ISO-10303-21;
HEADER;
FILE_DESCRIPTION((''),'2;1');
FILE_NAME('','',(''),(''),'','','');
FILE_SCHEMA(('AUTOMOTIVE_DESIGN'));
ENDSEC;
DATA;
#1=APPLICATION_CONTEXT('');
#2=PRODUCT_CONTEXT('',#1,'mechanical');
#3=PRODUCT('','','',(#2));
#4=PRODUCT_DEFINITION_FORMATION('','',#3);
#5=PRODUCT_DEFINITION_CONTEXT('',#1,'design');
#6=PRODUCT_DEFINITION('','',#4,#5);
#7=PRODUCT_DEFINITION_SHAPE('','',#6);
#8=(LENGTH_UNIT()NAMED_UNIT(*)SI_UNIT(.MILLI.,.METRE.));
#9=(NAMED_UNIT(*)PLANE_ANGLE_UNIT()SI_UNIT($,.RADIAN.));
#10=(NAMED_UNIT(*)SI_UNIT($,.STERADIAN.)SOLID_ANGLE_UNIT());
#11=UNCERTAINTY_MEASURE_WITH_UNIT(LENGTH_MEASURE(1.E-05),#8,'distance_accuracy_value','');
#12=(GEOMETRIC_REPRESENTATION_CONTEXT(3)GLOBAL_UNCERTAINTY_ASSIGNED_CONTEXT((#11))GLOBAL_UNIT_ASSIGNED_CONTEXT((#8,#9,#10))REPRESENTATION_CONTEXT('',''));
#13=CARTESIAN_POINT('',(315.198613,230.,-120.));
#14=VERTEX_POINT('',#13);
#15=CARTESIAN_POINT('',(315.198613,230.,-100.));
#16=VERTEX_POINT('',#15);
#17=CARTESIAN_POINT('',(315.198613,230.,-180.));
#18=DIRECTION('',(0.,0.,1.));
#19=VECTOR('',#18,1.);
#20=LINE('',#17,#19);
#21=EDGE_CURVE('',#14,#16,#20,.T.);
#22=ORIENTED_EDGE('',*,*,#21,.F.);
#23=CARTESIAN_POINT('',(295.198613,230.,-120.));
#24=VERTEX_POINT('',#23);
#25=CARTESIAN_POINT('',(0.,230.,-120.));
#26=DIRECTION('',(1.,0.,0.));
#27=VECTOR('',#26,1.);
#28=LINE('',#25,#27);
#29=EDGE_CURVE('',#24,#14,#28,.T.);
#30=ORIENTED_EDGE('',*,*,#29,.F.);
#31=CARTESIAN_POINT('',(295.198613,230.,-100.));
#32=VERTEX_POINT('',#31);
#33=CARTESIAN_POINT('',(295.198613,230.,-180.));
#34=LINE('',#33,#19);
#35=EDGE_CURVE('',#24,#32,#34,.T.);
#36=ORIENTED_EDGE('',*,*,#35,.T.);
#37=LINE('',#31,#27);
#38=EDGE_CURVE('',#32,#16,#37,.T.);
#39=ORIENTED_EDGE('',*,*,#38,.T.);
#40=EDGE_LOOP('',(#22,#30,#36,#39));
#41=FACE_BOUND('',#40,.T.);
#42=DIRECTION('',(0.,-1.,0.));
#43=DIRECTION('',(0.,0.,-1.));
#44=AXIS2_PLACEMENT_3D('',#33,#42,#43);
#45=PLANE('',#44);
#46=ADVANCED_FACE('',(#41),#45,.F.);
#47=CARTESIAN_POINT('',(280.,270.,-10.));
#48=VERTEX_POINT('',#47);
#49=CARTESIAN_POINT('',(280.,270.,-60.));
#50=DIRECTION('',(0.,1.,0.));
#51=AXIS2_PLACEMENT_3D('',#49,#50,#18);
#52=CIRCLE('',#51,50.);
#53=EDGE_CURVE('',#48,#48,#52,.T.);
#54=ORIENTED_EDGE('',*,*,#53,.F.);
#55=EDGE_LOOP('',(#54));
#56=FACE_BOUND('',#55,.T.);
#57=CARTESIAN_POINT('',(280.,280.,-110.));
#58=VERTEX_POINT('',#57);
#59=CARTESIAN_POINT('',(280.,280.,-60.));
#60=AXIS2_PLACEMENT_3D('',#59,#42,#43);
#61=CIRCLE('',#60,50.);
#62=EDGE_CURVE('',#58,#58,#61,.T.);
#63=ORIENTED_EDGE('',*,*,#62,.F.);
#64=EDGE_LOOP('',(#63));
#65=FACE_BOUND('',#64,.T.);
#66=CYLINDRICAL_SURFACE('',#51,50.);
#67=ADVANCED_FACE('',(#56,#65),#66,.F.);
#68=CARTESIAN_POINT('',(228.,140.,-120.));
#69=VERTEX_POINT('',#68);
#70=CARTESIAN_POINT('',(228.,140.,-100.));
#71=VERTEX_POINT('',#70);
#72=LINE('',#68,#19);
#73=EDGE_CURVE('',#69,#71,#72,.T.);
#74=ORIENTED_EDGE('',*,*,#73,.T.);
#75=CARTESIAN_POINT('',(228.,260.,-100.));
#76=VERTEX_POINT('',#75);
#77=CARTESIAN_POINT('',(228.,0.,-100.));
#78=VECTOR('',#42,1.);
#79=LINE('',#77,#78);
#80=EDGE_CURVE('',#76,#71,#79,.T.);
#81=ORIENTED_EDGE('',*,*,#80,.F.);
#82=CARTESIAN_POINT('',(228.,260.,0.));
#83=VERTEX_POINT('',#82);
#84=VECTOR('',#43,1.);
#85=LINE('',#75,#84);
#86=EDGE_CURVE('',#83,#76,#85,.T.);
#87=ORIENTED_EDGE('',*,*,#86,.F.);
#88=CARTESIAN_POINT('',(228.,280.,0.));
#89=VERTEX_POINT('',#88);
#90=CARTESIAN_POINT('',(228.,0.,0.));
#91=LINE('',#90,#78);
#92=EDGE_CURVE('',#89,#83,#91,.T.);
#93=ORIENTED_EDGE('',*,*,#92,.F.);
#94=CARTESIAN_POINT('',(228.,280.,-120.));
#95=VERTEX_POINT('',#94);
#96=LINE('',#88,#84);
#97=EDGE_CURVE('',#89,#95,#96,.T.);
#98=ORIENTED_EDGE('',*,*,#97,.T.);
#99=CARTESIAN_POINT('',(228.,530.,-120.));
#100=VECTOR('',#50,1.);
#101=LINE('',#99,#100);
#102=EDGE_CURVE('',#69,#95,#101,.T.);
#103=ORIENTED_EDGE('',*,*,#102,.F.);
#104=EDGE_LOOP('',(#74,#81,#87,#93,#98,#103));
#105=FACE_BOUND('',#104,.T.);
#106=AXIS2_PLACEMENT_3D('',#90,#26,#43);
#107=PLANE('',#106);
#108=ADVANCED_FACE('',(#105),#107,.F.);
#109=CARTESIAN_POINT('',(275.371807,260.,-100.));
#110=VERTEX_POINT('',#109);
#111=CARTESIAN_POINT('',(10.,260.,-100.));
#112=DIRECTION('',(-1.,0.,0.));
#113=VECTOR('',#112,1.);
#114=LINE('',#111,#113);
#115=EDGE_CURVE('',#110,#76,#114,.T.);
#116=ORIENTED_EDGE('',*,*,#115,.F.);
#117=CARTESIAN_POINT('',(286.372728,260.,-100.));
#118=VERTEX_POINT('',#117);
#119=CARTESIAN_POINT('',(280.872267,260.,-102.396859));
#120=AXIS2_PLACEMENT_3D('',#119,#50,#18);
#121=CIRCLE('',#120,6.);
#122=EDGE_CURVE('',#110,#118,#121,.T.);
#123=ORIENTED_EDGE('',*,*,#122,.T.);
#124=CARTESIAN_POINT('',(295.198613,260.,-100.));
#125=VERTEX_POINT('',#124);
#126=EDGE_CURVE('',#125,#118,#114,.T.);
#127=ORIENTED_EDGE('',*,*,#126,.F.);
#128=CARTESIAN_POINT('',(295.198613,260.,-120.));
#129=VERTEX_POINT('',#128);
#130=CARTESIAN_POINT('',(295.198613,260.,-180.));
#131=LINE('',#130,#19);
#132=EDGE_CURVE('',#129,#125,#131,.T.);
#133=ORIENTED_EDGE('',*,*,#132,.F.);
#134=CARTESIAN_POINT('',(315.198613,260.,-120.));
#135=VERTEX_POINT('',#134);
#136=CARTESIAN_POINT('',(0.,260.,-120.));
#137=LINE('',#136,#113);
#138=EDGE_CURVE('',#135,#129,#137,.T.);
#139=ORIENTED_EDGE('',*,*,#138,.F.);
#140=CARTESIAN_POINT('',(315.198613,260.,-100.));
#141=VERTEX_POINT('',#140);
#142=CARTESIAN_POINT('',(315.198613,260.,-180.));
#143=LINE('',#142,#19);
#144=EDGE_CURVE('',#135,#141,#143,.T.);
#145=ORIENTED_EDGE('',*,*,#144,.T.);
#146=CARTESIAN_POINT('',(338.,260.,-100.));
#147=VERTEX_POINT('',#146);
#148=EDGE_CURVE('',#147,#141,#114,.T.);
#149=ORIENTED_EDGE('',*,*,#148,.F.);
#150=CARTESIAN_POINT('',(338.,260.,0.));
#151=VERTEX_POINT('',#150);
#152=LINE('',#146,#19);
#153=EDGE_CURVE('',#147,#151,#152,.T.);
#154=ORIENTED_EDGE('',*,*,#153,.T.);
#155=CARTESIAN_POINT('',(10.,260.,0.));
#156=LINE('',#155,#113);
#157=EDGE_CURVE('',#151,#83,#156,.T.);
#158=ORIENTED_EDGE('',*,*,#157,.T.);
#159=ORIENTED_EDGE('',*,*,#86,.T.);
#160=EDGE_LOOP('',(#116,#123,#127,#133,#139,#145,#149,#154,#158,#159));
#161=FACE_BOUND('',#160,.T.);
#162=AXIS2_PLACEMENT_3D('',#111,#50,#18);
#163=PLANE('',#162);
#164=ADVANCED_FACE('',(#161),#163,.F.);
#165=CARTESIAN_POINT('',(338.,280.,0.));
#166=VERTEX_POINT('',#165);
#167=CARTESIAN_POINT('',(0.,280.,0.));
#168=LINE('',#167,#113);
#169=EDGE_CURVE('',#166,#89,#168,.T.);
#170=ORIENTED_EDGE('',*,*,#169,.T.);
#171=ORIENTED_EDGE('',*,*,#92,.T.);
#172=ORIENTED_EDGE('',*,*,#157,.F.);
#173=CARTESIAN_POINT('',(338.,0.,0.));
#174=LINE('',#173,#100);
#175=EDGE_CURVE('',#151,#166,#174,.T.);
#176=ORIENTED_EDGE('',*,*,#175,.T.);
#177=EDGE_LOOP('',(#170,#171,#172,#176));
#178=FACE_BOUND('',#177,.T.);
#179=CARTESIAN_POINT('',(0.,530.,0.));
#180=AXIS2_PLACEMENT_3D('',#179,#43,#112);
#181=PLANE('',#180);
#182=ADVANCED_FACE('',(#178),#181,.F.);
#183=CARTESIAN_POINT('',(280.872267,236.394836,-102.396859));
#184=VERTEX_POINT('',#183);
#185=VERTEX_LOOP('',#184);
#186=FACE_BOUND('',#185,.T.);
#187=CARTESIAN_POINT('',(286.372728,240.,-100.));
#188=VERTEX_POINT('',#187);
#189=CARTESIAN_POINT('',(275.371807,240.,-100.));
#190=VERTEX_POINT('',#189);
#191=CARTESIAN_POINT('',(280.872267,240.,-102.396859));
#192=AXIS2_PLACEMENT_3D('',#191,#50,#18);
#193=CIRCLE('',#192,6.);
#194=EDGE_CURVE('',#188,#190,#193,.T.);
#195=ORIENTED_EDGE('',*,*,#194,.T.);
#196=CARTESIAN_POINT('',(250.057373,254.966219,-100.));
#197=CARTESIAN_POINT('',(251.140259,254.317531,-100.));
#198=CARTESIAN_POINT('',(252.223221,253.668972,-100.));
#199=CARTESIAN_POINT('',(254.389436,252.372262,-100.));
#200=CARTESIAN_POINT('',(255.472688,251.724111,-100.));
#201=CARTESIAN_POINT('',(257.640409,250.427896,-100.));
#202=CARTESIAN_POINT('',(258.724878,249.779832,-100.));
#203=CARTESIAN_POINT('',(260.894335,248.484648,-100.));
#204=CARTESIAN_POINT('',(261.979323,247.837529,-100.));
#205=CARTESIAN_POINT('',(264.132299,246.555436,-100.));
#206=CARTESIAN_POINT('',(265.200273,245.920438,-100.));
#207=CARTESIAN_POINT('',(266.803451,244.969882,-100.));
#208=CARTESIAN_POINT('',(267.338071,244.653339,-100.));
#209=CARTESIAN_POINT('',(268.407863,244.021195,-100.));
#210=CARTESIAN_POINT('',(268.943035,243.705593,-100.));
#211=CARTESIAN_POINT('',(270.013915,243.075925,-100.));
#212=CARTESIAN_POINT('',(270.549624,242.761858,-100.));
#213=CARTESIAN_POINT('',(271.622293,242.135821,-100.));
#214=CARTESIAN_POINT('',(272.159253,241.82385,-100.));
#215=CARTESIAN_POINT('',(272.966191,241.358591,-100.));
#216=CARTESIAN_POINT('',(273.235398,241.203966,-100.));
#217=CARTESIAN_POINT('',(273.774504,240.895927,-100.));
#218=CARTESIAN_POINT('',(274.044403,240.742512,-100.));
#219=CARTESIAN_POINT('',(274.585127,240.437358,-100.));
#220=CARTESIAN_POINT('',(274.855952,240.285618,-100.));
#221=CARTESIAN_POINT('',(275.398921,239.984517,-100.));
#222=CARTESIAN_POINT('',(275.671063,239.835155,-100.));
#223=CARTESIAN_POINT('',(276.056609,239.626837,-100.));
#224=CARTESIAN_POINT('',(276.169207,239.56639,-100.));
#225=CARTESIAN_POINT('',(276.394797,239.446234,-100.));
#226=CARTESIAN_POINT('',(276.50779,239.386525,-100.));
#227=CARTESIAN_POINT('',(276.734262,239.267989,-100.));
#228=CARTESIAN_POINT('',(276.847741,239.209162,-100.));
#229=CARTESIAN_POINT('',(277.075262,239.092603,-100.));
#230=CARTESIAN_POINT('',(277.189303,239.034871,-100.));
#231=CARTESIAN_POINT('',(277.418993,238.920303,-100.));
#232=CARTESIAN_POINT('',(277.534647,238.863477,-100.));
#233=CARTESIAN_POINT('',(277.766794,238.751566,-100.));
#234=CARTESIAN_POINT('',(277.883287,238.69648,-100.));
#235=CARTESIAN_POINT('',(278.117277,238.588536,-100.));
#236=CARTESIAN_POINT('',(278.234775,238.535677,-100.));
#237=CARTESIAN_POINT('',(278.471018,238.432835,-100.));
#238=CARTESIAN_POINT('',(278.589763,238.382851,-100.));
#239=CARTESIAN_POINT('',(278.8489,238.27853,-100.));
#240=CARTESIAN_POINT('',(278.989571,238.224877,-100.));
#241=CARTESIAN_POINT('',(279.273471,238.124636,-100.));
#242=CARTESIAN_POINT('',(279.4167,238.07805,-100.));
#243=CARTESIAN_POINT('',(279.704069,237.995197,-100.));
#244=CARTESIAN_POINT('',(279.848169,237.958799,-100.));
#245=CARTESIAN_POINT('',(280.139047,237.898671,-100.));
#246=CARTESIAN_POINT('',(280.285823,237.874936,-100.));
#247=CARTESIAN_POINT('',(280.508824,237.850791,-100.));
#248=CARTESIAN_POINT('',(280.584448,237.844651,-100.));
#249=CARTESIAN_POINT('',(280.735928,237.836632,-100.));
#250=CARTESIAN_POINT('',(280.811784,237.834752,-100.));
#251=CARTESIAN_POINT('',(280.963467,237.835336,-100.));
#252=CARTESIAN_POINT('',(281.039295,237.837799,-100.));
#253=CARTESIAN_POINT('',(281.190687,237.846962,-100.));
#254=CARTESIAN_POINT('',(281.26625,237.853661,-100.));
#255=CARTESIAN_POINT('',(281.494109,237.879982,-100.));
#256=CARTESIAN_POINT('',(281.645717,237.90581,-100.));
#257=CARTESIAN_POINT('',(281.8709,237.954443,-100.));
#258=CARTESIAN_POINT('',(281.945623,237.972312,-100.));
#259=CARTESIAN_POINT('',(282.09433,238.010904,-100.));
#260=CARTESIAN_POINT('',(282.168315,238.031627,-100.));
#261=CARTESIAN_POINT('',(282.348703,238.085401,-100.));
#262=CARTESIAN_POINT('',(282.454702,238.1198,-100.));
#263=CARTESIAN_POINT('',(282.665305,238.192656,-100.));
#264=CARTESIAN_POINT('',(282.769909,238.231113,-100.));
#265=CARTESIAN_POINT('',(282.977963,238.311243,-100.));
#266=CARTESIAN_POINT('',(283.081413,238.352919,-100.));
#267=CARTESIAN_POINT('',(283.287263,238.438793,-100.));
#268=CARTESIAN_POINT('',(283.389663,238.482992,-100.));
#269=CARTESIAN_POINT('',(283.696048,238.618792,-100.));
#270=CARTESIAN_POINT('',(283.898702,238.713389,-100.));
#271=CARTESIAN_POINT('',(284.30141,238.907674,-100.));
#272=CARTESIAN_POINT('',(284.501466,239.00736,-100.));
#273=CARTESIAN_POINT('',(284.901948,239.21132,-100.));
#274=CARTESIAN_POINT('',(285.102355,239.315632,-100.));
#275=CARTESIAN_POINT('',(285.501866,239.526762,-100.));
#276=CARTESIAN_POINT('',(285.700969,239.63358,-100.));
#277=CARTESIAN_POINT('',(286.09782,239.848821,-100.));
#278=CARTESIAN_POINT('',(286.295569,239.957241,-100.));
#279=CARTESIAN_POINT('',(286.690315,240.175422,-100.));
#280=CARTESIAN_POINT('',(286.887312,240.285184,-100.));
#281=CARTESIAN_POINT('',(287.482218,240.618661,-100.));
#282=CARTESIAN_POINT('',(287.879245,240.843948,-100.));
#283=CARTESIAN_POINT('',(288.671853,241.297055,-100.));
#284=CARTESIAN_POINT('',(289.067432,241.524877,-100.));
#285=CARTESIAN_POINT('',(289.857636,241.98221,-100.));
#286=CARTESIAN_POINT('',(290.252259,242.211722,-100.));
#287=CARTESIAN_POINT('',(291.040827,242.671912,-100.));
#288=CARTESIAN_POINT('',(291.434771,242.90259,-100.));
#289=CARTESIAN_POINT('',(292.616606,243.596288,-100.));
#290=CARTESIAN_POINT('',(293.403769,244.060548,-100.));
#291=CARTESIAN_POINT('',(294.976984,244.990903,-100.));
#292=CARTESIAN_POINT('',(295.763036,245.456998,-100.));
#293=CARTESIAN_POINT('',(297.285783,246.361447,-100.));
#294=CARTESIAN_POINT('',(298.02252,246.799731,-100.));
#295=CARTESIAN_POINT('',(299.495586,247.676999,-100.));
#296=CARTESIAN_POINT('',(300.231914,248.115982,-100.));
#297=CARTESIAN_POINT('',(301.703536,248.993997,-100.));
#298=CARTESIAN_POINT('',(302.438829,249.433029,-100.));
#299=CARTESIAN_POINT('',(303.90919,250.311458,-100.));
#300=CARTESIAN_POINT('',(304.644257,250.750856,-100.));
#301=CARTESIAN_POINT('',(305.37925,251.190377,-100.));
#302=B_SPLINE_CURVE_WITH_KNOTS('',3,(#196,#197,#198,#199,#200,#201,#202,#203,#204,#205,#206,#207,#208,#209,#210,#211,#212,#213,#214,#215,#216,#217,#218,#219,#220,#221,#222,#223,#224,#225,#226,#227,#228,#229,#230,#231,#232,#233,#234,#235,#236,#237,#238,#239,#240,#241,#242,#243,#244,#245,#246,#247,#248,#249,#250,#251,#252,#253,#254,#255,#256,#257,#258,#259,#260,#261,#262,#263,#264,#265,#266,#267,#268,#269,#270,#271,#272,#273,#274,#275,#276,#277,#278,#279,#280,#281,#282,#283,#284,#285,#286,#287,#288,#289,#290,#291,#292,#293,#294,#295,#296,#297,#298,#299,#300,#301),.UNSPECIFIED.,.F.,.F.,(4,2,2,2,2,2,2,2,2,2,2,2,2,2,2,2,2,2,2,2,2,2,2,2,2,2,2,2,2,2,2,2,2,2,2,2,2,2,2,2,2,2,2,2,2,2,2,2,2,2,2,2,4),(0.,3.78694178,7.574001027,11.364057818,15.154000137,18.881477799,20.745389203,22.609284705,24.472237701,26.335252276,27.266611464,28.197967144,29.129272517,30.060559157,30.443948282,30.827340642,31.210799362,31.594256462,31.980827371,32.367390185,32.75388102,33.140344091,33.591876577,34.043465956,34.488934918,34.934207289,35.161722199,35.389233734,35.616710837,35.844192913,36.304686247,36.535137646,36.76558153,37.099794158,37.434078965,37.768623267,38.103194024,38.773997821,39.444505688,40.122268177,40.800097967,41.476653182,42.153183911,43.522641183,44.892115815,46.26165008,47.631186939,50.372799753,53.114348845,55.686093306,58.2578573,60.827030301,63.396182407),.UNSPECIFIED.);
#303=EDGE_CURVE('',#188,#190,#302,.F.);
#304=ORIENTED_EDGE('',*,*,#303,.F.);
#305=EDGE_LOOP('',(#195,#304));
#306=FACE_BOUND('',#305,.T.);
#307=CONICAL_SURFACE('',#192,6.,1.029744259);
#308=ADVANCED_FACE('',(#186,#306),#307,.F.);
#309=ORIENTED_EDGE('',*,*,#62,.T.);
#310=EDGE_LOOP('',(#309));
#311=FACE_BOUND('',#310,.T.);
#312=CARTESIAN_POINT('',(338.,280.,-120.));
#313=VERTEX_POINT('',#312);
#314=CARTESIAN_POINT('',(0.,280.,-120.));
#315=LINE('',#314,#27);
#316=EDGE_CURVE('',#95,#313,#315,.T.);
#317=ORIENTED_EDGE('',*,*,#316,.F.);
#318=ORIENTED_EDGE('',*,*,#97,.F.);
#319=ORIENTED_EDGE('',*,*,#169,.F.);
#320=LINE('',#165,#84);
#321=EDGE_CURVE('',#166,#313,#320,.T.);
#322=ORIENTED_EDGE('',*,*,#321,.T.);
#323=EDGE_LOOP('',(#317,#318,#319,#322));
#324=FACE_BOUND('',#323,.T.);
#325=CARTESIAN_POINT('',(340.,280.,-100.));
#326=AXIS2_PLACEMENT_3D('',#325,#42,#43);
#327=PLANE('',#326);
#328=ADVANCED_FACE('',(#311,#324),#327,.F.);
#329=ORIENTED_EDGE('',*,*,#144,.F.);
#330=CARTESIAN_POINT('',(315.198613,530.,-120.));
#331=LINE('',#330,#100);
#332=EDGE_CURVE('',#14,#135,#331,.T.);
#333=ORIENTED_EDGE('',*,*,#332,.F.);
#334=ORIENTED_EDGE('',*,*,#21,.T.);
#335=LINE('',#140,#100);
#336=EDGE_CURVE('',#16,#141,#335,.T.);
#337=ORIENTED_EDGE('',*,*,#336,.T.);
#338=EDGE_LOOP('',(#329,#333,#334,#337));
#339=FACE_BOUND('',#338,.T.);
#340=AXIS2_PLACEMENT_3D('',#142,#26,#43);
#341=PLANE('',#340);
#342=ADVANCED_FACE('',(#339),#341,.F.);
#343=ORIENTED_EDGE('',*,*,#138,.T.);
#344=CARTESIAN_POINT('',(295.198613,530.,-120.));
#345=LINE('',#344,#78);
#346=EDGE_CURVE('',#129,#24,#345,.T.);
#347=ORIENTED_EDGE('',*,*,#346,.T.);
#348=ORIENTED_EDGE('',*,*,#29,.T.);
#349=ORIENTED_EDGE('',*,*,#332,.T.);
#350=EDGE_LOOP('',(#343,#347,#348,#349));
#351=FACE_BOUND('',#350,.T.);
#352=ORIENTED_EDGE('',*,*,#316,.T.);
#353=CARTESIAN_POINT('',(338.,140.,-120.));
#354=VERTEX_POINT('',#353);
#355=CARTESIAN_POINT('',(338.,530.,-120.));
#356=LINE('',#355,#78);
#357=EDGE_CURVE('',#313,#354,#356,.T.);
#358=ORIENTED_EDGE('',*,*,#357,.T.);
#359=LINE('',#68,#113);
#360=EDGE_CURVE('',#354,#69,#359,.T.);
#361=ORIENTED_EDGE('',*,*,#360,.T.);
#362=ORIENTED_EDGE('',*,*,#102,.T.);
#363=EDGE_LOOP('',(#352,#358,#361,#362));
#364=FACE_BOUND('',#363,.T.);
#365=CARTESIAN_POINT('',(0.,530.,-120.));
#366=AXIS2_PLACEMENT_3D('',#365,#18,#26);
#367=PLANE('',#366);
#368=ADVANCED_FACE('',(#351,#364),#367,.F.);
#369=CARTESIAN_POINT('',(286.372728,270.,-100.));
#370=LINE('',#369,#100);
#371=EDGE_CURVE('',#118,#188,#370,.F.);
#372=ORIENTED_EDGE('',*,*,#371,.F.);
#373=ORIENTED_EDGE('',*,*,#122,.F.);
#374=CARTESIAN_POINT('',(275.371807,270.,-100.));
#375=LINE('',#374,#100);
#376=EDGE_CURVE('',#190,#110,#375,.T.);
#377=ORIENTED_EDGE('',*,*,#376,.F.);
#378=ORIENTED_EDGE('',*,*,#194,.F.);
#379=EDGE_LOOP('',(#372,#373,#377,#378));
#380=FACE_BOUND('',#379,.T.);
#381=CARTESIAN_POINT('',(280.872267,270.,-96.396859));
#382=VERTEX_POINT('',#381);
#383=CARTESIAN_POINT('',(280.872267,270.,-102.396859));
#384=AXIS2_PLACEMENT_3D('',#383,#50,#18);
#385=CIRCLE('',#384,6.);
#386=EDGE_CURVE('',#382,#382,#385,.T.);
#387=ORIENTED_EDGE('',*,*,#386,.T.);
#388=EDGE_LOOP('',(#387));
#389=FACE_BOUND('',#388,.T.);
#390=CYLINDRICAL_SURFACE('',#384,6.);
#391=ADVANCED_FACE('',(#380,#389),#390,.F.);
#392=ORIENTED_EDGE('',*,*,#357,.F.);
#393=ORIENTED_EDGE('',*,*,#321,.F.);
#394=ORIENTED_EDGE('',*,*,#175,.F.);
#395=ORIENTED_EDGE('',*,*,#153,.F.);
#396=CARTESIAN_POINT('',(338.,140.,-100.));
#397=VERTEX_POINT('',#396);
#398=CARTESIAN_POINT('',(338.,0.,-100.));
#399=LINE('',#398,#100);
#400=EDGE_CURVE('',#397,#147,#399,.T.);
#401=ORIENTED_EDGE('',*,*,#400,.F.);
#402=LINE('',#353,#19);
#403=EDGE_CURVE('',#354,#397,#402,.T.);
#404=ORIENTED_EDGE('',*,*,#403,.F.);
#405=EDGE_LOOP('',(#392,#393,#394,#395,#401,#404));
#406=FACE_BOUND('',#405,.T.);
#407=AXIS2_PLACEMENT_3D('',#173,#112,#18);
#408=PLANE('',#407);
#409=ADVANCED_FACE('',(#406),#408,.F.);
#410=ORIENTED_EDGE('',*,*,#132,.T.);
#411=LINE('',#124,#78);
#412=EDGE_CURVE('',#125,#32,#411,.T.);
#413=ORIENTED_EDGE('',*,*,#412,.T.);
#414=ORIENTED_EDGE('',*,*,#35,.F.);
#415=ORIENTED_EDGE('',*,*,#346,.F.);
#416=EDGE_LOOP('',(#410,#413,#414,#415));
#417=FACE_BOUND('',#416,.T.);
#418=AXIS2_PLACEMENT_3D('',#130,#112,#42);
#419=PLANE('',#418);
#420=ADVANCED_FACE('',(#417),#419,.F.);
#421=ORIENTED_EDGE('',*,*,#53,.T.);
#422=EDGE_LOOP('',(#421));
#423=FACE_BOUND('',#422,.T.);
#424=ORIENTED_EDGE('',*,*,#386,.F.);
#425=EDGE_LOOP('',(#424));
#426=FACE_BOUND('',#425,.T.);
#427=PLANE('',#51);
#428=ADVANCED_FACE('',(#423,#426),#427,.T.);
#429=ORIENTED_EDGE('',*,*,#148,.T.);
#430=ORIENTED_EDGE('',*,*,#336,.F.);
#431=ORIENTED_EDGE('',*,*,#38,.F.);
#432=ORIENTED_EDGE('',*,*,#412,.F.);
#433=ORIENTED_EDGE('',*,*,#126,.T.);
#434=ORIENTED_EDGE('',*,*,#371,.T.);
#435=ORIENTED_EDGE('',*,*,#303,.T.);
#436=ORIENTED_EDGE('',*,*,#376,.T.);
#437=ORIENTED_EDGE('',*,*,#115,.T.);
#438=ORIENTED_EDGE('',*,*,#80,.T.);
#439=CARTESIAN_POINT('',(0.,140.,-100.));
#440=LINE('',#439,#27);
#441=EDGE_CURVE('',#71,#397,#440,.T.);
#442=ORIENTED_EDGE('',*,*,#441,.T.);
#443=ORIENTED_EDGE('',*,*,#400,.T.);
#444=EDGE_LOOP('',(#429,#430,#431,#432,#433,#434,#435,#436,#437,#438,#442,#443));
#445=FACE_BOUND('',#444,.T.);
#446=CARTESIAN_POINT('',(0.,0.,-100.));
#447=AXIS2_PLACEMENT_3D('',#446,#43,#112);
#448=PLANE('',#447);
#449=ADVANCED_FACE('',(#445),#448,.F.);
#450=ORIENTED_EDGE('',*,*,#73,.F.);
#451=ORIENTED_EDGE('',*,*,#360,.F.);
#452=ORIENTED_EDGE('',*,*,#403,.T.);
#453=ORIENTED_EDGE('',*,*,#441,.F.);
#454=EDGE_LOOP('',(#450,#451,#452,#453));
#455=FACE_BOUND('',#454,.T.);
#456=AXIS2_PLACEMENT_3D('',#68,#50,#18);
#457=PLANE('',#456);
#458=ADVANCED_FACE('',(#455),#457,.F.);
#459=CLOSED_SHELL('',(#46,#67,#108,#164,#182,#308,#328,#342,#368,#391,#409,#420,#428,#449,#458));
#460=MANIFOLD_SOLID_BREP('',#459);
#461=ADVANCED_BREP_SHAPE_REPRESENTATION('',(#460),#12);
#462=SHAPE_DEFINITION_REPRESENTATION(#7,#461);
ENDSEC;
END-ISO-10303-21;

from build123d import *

# Parameters (mm, degrees)
SKETCH1_W                      = 670
SKETCH1_H                      = 120
BOSS_EXTRUDE1_DEPTH            = 530
SKETCH2_W                      = 100
SKETCH2_H                      = 200
SKETCH2_W_2                    = 650
SKETCH2_H_2                    = 250
CUT_EXTRUDE1_DEPTH             = 100
SKETCH3_R                      = 50
CUT_EXTRUDE2_DEPTH             = 260
F_12_0_12_DIAMETER_HOLE2_D     = 12
F_12_0_12_DIAMETER_HOLE2_DEPTH = 30
F_12_0_12_DIAMETER_HOLE2_TIP   = 3.605163714
SKETCH8_W                      = 650
SKETCH8_H                      = 50
BOSS_EXTRUDE2_DEPTH            = 5
SKETCH9_W                      = 10
SKETCH9_H                      = 250
CUT_EXTRUDE3_DEPTH             = 717
CUT_EXTRUDE4_DEPTH             = 5
SKETCH11_W                     = 10
SKETCH11_H                     = 100
BOSS_EXTRUDE3_DEPTH            = 78
BOSS_EXTRUDE3_2_DEPTH          = 78
BOSS_EXTRUDE3_3_DEPTH          = 78
SKETCH12_W                     = 20
SKETCH12_H                     = 30
CUT_EXTRUDE5_DEPTH             = 80
SKETCH15_W                     = 30
SKETCH15_H                     = 23.536156656
SKETCH15_H_2                   = 28.986603691
CUT_EXTRUDE7_DEPTH             = 35
SHELL1_T                       = -3
SKETCH16_W                     = 14
SKETCH16_H                     = 14
CUT_EXTRUDE8_DEPTH             = 35
SKETCH17_W                     = 5.729882812
SKETCH17_H                     = 17.428393554
SKETCH17_W_2                   = 13.369726562
SKETCH17_H_2                   = 3.342431641
BOSS_EXTRUDE4_DEPTH            = 5
CUT_EXTRUDE10_DEPTH            = 863.670273187
CUT_EXTRUDE10_DEPTH_BACK       = 863.670273187
SKETCH18_W                     = 670
SKETCH18_H                     = 250
CUT_EXTRUDE13_DEPTH            = 737.002717386
CUT_EXTRUDE13_DEPTH_BACK       = 737.002717386
SKETCH19_W                     = 228
SKETCH19_H                     = 280
SKETCH19_W_2                   = 332
CUT_EXTRUDE14_DEPTH            = 451.159971566
CUT_EXTRUDE14_DEPTH_BACK       = 451.159971566
SKETCH20_W                     = 110
SKETCH20_H                     = 140


with BuildPart() as part:
    # Sketch1 → Boss-Extrude1 (new body)
    with BuildSketch(Plane(origin=(0, 0, 0), x_dir=(1, 0, 0), z_dir=(0, 1, 0))):
        with Locations((335, 60)):
            Rectangle(SKETCH1_W, SKETCH1_H)
    extrude(amount=BOSS_EXTRUDE1_DEPTH)

    # Sketch2 → Cut-Extrude1 (cut)
    with BuildSketch(Plane.XY):
        with Locations((60, 380)):
            Rectangle(SKETCH2_W, SKETCH2_H)
        with Locations((170, 380)):
            Rectangle(SKETCH2_W, SKETCH2_H)
        with Locations((280, 380)):
            Rectangle(SKETCH2_W, SKETCH2_H)
        with Locations((390, 380)):
            Rectangle(SKETCH2_W, SKETCH2_H)
        with Locations((500, 380)):
            Rectangle(SKETCH2_W, SKETCH2_H)
        with Locations((610, 380)):
            Rectangle(SKETCH2_W, SKETCH2_H)
        with Locations((335, 135)):
            Rectangle(SKETCH2_W_2, SKETCH2_H_2)
    extrude(amount=-CUT_EXTRUDE1_DEPTH, mode=Mode.SUBTRACT)

    # Sketch3 → Cut-Extrude2 (cut)
    with BuildSketch(Plane(origin=(0, 530, 0), x_dir=(1, 0, 0), z_dir=(0, 1, 0))):
        with Locations((60, 60)):
            Circle(SKETCH3_R)
        with Locations((170, 60)):
            Circle(SKETCH3_R)
        with Locations((280, 60)):
            Circle(SKETCH3_R)
        with Locations((390, 60)):
            Circle(SKETCH3_R)
        with Locations((500, 60)):
            Circle(SKETCH3_R)
        with Locations((610, 60)):
            Circle(SKETCH3_R)
    extrude(amount=-CUT_EXTRUDE2_DEPTH, mode=Mode.SUBTRACT)

    # Ø12.0 (12) Diameter Hole2
    with Locations(Plane(origin=(59.704642413, 270, -102.411697903), x_dir=(0, 0, 1), z_dir=(0, 1, 0))):
        with Locations((0, 0), (-0.195888006, 111.8520513), (0.014838595, 221.167624818), (-0.341843303, 331.364008353), (0.657723149, 441.008646429), (1.288998006, 549.811854685)):
            Hole(F_12_0_12_DIAMETER_HOLE2_D / 2, depth=F_12_0_12_DIAMETER_HOLE2_DEPTH)
            with Locations((0, 0, -(F_12_0_12_DIAMETER_HOLE2_DEPTH + F_12_0_12_DIAMETER_HOLE2_TIP / 2))):  # 118° drill point
                Cone(0, F_12_0_12_DIAMETER_HOLE2_D / 2, F_12_0_12_DIAMETER_HOLE2_TIP, mode=Mode.SUBTRACT)

    # Sketch8 → Boss-Extrude2 (add)
    with BuildSketch(Plane.XY):
        with Locations((335, 305)):
            Rectangle(SKETCH8_W, SKETCH8_H)
    extrude(amount=-BOSS_EXTRUDE2_DEPTH)

    # Sketch9 → Cut-Extrude3 (cut)
    with BuildSketch(Plane(origin=(670, 0, 0), x_dir=(0, 0, -1), z_dir=(1, 0, 0))):
        with Locations((15, 135)):
            Rectangle(SKETCH9_W, SKETCH9_H)
    extrude(amount=-CUT_EXTRUDE3_DEPTH, mode=Mode.SUBTRACT)

    # Sketch10 → Cut-Extrude4 (cut)
    with BuildSketch(Plane(origin=(0, 10, 0), x_dir=(1, 0, 0), z_dir=(0, 1, 0))):
        Polygon((365, 61.943560596), (350, 87.924322709), (320, 87.924322709), (305, 61.943560596), (320, 35.962798482), (350, 35.962798482), align=None)
    extrude(amount=-CUT_EXTRUDE4_DEPTH, mode=Mode.SUBTRACT)

    # Sketch12 → Cut-Extrude5 (cut)
    with BuildSketch(Plane.XY.offset(-100)):
        with Locations((85.198613037, 245)):
            Rectangle(SKETCH12_W, SKETCH12_H)
        with Locations((195.198613037, 245)):
            Rectangle(SKETCH12_W, SKETCH12_H)
        with Locations((305.198613037, 245)):
            Rectangle(SKETCH12_W, SKETCH12_H)
        with Locations((415.198613037, 245)):
            Rectangle(SKETCH12_W, SKETCH12_H)
        with Locations((525.198613037, 245)):
            Rectangle(SKETCH12_W, SKETCH12_H)
        with Locations((635.198613037, 245)):
            Rectangle(SKETCH12_W, SKETCH12_H)
    extrude(amount=-CUT_EXTRUDE5_DEPTH, mode=Mode.SUBTRACT)

    # Sketch17 → Boss-Extrude4 (add)
    # profile 1 of 9: a face of its own
    with BuildSketch(Plane.XY):
        with BuildLine():
            Line((527.508830928, 289.835452458), (527.508830928, 307.263846012))
            Line((527.508830928, 307.263846012), (534.861434459, 307.263846012))
            add(Edge.make_bspline(
                [(534.861434459, 307.263846012), (535.181337774, 307.258256848), (535.803061116, 307.24739446), (536.703508491, 307.139069344), (537.544992916, 306.975202489), (538.325061607, 306.737496792), (539.040841948, 306.426020155), (539.698044515, 306.051894954), (540.290333057, 305.605079277), (540.822348212, 305.090232636), (541.284521701, 304.502523111), (541.692171296, 303.852565801), (542.030284458, 303.129762281), (542.309377095, 302.341316546), (542.5243908, 301.484161689), (542.679660381, 300.560045938), (542.773357357, 299.567500804), (542.783368073, 298.883107022), (542.788518428, 298.530997273)],
                knots=[0, 0, 0, 0, 1.135059408, 2.20595691, 3.214417064, 4.174978569, 5.094187092, 5.980001006, 6.853065862, 7.720814779, 8.600404634, 9.50058483, 10.438414914, 11.426825708, 12.465239141, 13.571113463, 14.750376389, 16, 16, 16, 16], degree=3))
            add(Edge.make_bspline(
                [(542.788518428, 298.530997273), (542.781740751, 298.180151665), (542.768592871, 297.499553336), (542.676885992, 296.511518461), (542.516733301, 295.591080531), (542.296748778, 294.736450427), (542.003051046, 293.953120444), (541.654236167, 293.233205539), (541.233025793, 292.585291498), (540.753136904, 292.000029304), (540.204772188, 291.484681411), (539.587651059, 291.044279297), (538.910779309, 290.668464036), (538.169670382, 290.361903209), (537.364073889, 290.124869172), (536.495133477, 289.954199984), (535.562644449, 289.853487388), (534.920131033, 289.841584621), (534.58911581, 289.835452458)],
                knots=[0, 0, 0, 0, 1.228418252, 2.382983832, 3.470276728, 4.496757894, 5.468023682, 6.394867725, 7.292157164, 8.167372942, 9.039072913, 9.918728341, 10.815246345, 11.744296628, 12.720973084, 13.750736166, 14.841206188, 16, 16, 16, 16], degree=3))
            Line((534.58911581, 289.835452458), (527.508830928, 289.835452458))
        make_face()
        with BuildLine():
            Line((533.238713741, 291.745413395), (534.048208904, 291.745413395))
            add(Edge.make_bspline(
                [(534.048208904, 291.745413395), (534.172894012, 291.749291978), (534.413033311, 291.756761998), (534.758676231, 291.825976613), (535.075745017, 291.938271137), (535.365749176, 292.094802589), (535.623404602, 292.300450923), (535.848862806, 292.551404902), (536.04776914, 292.844737637), (536.217685755, 293.190205032), (536.364284647, 293.596533622), (536.481764702, 294.076367921), (536.592118304, 294.630928744), (536.673672739, 295.265507643), (536.740044562, 295.978448886), (536.788346679, 296.768428292), (536.812018936, 297.636801208), (536.817188964, 298.241258393), (536.819890499, 298.55711002)],
                knots=[0, 0, 0, 0, 0.728710832, 1.403472396, 2.052289494, 2.690292559, 3.321919393, 3.970736491, 4.656696891, 5.388631723, 6.217040872, 7.17856157, 8.275589967, 9.523440737, 10.918935818, 12.463926104, 14.152268318, 16, 16, 16, 16], degree=3))
            add(Edge.make_bspline(
                [(536.819890499, 298.55711002), (536.8171426, 298.871715251), (536.811863063, 299.476166083), (536.7886758, 300.343334385), (536.739579947, 301.133216935), (536.674703848, 301.843934916), (536.589660404, 302.476324031), (536.488366458, 303.031681737), (536.362441588, 303.507627045), (536.222158727, 303.914921549), (536.050140993, 304.256514038), (535.858357073, 304.554097881), (535.62547107, 304.79746827), (535.36991257, 305.004888479), (535.079348843, 305.160875844), (534.761320266, 305.273944358), (534.414185903, 305.34216807), (534.172870641, 305.349893944), (534.048208904, 305.353885075)],
                knots=[0, 0, 0, 0, 1.842836665, 3.540640921, 5.080358154, 6.47765669, 7.719902824, 8.816971715, 9.781579111, 10.601733135, 11.334613876, 12.017393917, 12.666641099, 13.29908421, 13.937911793, 14.587567384, 15.270347425, 16, 16, 16, 16], degree=3))
            Line((534.048208904, 305.353885075), (533.238713741, 305.353885075))
            Line((533.238713741, 305.353885075), (533.238713741, 291.745413395))
        make_face(mode=Mode.SUBTRACT)
    # profile 2 of 9: a face of its own
    with BuildSketch(Plane.XY):
        with Locations((547.563420772, 298.549649235)):
            Rectangle(SKETCH17_W, SKETCH17_H)
    # profile 3 of 9: a face of its own
    with BuildSketch(Plane.XY):
        Polygon((564.514324092, 307.263846012), (564.514324092, 305.115139958), (558.545696163, 305.115139958), (558.545696163, 299.862747379), (563.559343624, 299.862747379), (563.559343624, 297.714041325), (558.545696163, 297.714041325), (558.545696163, 289.835452458), (552.81581335, 289.835452458), (552.81581335, 307.263846012), align=None)
    # profile 4 of 9: a face of its own
    with BuildSketch(Plane.XY):
        Polygon((577.645305538, 307.263846012), (577.645305538, 305.115139958), (571.676677608, 305.115139958), (571.676677608, 299.862747379), (576.690325069, 299.862747379), (576.690325069, 297.714041325), (571.676677608, 297.714041325), (571.676677608, 289.835452458), (565.946794795, 289.835452458), (565.946794795, 307.263846012), align=None)
    # profile 5 of 9: a face of its own
    with BuildSketch(Plane.XY):
        with Locations((584.330168819, 287.448001286)):
            Rectangle(SKETCH17_W_2, SKETCH17_H_2)
    # profile 6 of 9: a face of its own
    with BuildSketch(Plane.XY):
        with BuildLine():
            Line((605.578484249, 307.263846012), (605.578484249, 295.602639195))
            add(Edge.make_bspline(
                [(605.578484249, 295.602639195), (605.574209777, 295.35989389), (605.565919345, 294.889083964), (605.480877158, 294.20653885), (605.349958188, 293.569747554), (605.15926554, 292.978838165), (604.911867049, 292.436847071), (604.616163877, 291.936663973), (604.260702644, 291.487723021), (603.847299908, 291.08966617), (603.386881991, 290.731670113), (602.867295001, 290.425440037), (602.293741958, 290.168488385), (601.66690529, 289.960990771), (600.988052682, 289.797299786), (600.254912883, 289.679078851), (599.467035781, 289.60781007), (598.923618241, 289.60048219), (598.643684673, 289.59670734)],
                knots=[0, 0, 0, 0, 1.108173197, 2.149326602, 3.136215123, 4.073726706, 4.978516626, 5.852185058, 6.72141202, 7.584905625, 8.467554395, 9.379216169, 10.332422268, 11.332766067, 12.390653242, 13.518530507, 14.721707419, 16, 16, 16, 16], degree=3))
            add(Edge.make_bspline(
                [(598.643684673, 289.59670734), (598.373688491, 289.600411437), (597.851346557, 289.607577482), (597.093280473, 289.679448684), (596.387523889, 289.797736542), (595.733050135, 289.960122315), (595.130189942, 290.169220301), (594.579048171, 290.42623041), (594.078350789, 290.732835498), (593.633858028, 291.090104794), (593.234289459, 291.486851767), (592.899913678, 291.940746827), (592.609043638, 292.435866034), (592.375223767, 292.980322997), (592.191754821, 293.570441519), (592.063541006, 294.20666921), (591.983676196, 294.889343196), (591.974661767, 295.359932437), (591.970012569, 295.602639195)],
                knots=[0, 0, 0, 0, 1.258901956, 2.435505865, 3.547148904, 4.59359074, 5.576649289, 6.5183682, 7.424469602, 8.307507093, 9.172751023, 10.042627298, 10.928839176, 11.845659241, 12.799442865, 13.80597989, 14.868432463, 16, 16, 16, 16], degree=3))
            Line((591.970012569, 295.602639195), (591.970012569, 307.263846012))
            Line((591.970012569, 307.263846012), (597.699895381, 307.263846012))
            Line((597.699895381, 307.263846012), (597.699895381, 295.457153889))
            add(Edge.make_bspline(
                [(597.699895381, 295.457153889), (597.700816195, 295.287996189), (597.702584578, 294.963135903), (597.729908723, 294.499051493), (597.768241004, 294.079064133), (597.828226169, 293.705517832), (597.90066041, 293.377063412), (597.989882091, 293.09281535), (598.094998068, 292.852496478), (598.225239063, 292.654232043), (598.380826623, 292.495135011), (598.55368342, 292.353231761), (598.757556996, 292.238543846), (598.987648905, 292.146224908), (599.243380948, 292.070549638), (599.526120553, 292.020376099), (599.83553351, 291.990763905), (600.049971942, 291.986424568), (600.161954402, 291.984158512)],
                knots=[0, 0, 0, 0, 1.622370975, 3.115695595, 4.458049099, 5.666011203, 6.742434742, 7.681714947, 8.519814998, 9.250928664, 9.942747364, 10.646898194, 11.389596108, 12.175933929, 13.021386247, 13.943159715, 14.925891993, 16, 16, 16, 16], degree=3))
            add(Edge.make_bspline(
                [(600.161954402, 291.984158512), (600.283927219, 291.987190593), (600.521124756, 291.993087005), (600.86597014, 292.03390861), (601.187714881, 292.103380086), (601.484890424, 292.205377303), (601.758665297, 292.332852529), (602.012761516, 292.484567923), (602.236391413, 292.674631152), (602.439076761, 292.888441291), (602.620738276, 293.128529789), (602.771757722, 293.399928575), (602.905501548, 293.697121508), (603.005823683, 294.025060118), (603.089837826, 294.379999499), (603.146989706, 294.763086929), (603.186210275, 295.174074524), (603.189394751, 295.457053988), (603.191033077, 295.602639195)],
                knots=[0, 0, 0, 0, 1.083870311, 2.107775948, 3.08105344, 4.003637981, 4.893545291, 5.761570557, 6.624657808, 7.49233129, 8.376387281, 9.291996285, 10.246843261, 11.267344133, 12.334180325, 13.486053461, 14.706643157, 16, 16, 16, 16], degree=3))
            Line((603.191033077, 295.602639195), (603.191033077, 307.263846012))
            Line((603.191033077, 307.263846012), (605.578484249, 307.263846012))
        make_face()
    # profile 7 of 9: a face of its own
    with BuildSketch(Plane.XY):
        with BuildLine():
            Line((619.731593227, 302.015183827), (616.739818477, 301.526502415))
            add(Edge.make_bspline(
                [(616.739818477, 301.526502415), (616.748849224, 301.670726223), (616.765660669, 301.939210177), (616.78429066, 302.312269209), (616.796668381, 302.625642376), (616.798628236, 302.814722915), (616.799504756, 302.899286839)],
                knots=[0, 0, 0, 0, 1.261802504, 2.348944521, 3.261585937, 4, 4, 4, 4], degree=3))
            add(Edge.make_bspline(
                [(616.799504756, 302.899286839), (616.798306068, 303.007660677), (616.795968139, 303.219033721), (616.750451916, 303.523894877), (616.694806916, 303.811547356), (616.604352699, 304.076787391), (616.488181329, 304.320314265), (616.348943917, 304.543955606), (616.184187178, 304.745078709), (615.995833421, 304.928129987), (615.778009957, 305.083200131), (615.536269472, 305.218702836), (615.269765326, 305.333844758), (614.978065514, 305.431346685), (614.660683072, 305.504624438), (614.319025281, 305.556776695), (613.952471696, 305.585673441), (613.699597795, 305.590260771), (613.568984889, 305.592630192)],
                knots=[0, 0, 0, 0, 1.079280541, 2.105035848, 3.067950317, 3.99715044, 4.889989748, 5.753421302, 6.617030865, 7.476358039, 8.364190572, 9.274590025, 10.235106994, 11.254473582, 12.337095886, 13.478601727, 14.697662529, 16, 16, 16, 16], degree=3))
            add(Edge.make_bspline(
                [(613.568984889, 305.592630192), (613.391954632, 305.58912286), (613.059112606, 305.582528579), (612.595688488, 305.495339748), (612.198743126, 305.361419257), (611.87165349, 305.163811893), (611.613188167, 304.909795747), (611.433841092, 304.593316589), (611.323009072, 304.224665915), (611.313400221, 303.959558324), (611.308367061, 303.820693775)],
                knots=[0, 0, 0, 0, 1.294917039, 2.43462794, 3.440028966, 4.347597256, 5.210608309, 6.06356377, 6.985685997, 8, 8, 8, 8], degree=3))
            add(Edge.make_bspline(
                [(611.308367061, 303.820693775), (611.317562032, 303.705133219), (611.336106628, 303.472068433), (611.47315858, 303.132808312), (611.695999602, 302.811560885), (612.009295906, 302.510664216), (612.404107796, 302.221967273), (612.884407504, 301.948533431), (613.450813789, 301.688189695), (613.862519081, 301.536023727), (614.080048656, 301.455624958)],
                knots=[0, 0, 0, 0, 0.716839541, 1.445735977, 2.240793036, 3.131329288, 4.131129903, 5.273471266, 6.559404876, 8, 8, 8, 8], degree=3))
            add(Edge.make_bspline(
                [(614.080048656, 301.455624958), (614.335934702, 301.364918412), (614.834564244, 301.188164095), (615.547657928, 300.88707802), (616.213068388, 300.5749594), (616.829579094, 300.246613346), (617.397833174, 299.90520698), (617.914851624, 299.544556457), (618.386199073, 299.173962102), (618.807001026, 298.783874588), (619.177995113, 298.378100064), (619.4958685, 297.952745357), (619.771807525, 297.51723103), (619.991113975, 297.061458502), (620.169645242, 296.594624218), (620.292698657, 296.11024444), (620.364288243, 295.609761088), (620.37516617, 295.270864226), (620.380681514, 295.099036213)],
                knots=[0, 0, 0, 0, 1.359488612, 2.649152603, 3.874964776, 5.039588756, 6.146130126, 7.193090393, 8.194917302, 9.146793662, 10.063845301, 10.944476293, 11.803344532, 12.641736646, 13.473440096, 14.302714936, 15.139439897, 16, 16, 16, 16], degree=3))
            add(Edge.make_bspline(
                [(620.380681514, 295.099036213), (620.374476075, 294.902306495), (620.362285176, 294.515820995), (620.280160209, 293.948630617), (620.138011896, 293.409496554), (619.938489338, 292.895972278), (619.681049879, 292.411946655), (619.366518754, 291.954381076), (618.996510229, 291.525099427), (618.5710008, 291.128381035), (618.102222518, 290.765302239), (617.587803957, 290.450854345), (617.034458515, 290.187092261), (616.444107988, 289.968993032), (615.81453624, 289.801373099), (615.145337453, 289.685291013), (614.438790193, 289.606619894), (613.954683001, 289.600062276), (613.70700941, 289.59670734)],
                knots=[0, 0, 0, 0, 0.972121714, 1.909782367, 2.824924061, 3.721832975, 4.62620438, 5.527836938, 6.46026819, 7.421000932, 8.398101015, 9.385579713, 10.394244048, 11.422703992, 12.491421888, 13.608778581, 14.776629625, 16, 16, 16, 16], degree=3))
            add(Edge.make_bspline(
                [(613.70700941, 289.59670734), (613.445745367, 289.599650312), (612.939893069, 289.605348413), (612.207608113, 289.66709241), (611.525297432, 289.760984454), (610.893395078, 289.899706116), (610.309273131, 290.072394336), (609.776099392, 290.288320955), (609.295310255, 290.547303481), (608.863217672, 290.843007892), (608.478306623, 291.175775461), (608.148120946, 291.551766865), (607.86942369, 291.967163224), (607.639947144, 292.421521488), (607.466477665, 292.917583541), (607.339164663, 293.449829748), (607.264537999, 294.021332449), (607.254747521, 294.414908557), (607.249700069, 294.617815586)],
                knots=[0, 0, 0, 0, 1.342201143, 2.598733168, 3.773451092, 4.878874364, 5.91991243, 6.900006476, 7.829142054, 8.72062616, 9.585588575, 10.436728592, 11.283829734, 12.149664931, 13.044964919, 13.977937424, 14.957531465, 16, 16, 16, 16], degree=3))
            add(Edge.make_bspline(
                [(607.249700069, 294.617815586), (607.250803815, 294.692425759), (607.253213998, 294.855347393), (607.260452266, 295.122772538), (607.275636683, 295.433682216), (607.29037174, 295.656130545), (607.298195171, 295.774237248)],
                knots=[0, 0, 0, 0, 0.773500207, 1.689044709, 2.77302154, 4, 4, 4, 4], degree=3))
            Line((607.298195171, 295.774237248), (610.36457777, 296.337526509))
            add(Edge.make_bspline(
                [(610.36457777, 296.337526509), (610.326952988, 296.136337493), (610.255606535, 295.754830366), (610.178678473, 295.21219969), (610.124206629, 294.733311493), (610.11767002, 294.435147371), (610.114641475, 294.297001835)],
                knots=[0, 0, 0, 0, 1.192988372, 2.262218769, 3.194850416, 4, 4, 4, 4], degree=3))
            add(Edge.make_bspline(
                [(610.114641475, 294.297001835), (610.116191817, 294.183708768), (610.119182568, 293.965156219), (610.159053378, 293.648552813), (610.215988606, 293.352999663), (610.302906772, 293.079707227), (610.411206928, 292.826307836), (610.544682453, 292.59538211), (610.704385489, 292.386485019), (610.887496571, 292.200099922), (611.094689168, 292.033628705), (611.327456494, 291.892756696), (611.58347653, 291.771733922), (611.864681562, 291.677479524), (612.167961721, 291.596080628), (612.497219749, 291.548235723), (612.849461228, 291.512043782), (613.092629543, 291.508500084), (613.218327999, 291.506668278)],
                knots=[0, 0, 0, 0, 1.135776692, 2.191015738, 3.19649269, 4.151244236, 5.061952528, 5.956281389, 6.819534407, 7.692823504, 8.571441916, 9.478554956, 10.416037156, 11.406231466, 12.450054172, 13.561596327, 14.739541482, 16, 16, 16, 16], degree=3))
            add(Edge.make_bspline(
                [(613.218327999, 291.506668278), (613.423996012, 291.510791273), (613.810619321, 291.518541853), (614.349272542, 291.616708407), (614.810575885, 291.768742445), (615.189785268, 291.991387532), (615.490778961, 292.278756613), (615.698005174, 292.637320004), (615.824813318, 293.05638326), (615.837728413, 293.355975238), (615.844524288, 293.513619419)],
                knots=[0, 0, 0, 0, 1.308765556, 2.460272085, 3.475015317, 4.388076298, 5.239673503, 6.095681635, 6.997954785, 8, 8, 8, 8], degree=3))
            add(Edge.make_bspline(
                [(615.844524288, 293.513619419), (615.833808824, 293.638242951), (615.811807312, 293.894126055), (615.644884004, 294.264515838), (615.382382362, 294.620631473), (615.016807277, 294.962984909), (614.551376589, 295.293471235), (613.986957743, 295.616730224), (613.322148235, 295.933112033), (612.83677959, 296.119639164), (612.580430889, 296.21815395)],
                knots=[0, 0, 0, 0, 0.667930748, 1.371427933, 2.146459016, 3.034714139, 4.04893387, 5.207327294, 6.525042705, 8, 8, 8, 8], degree=3))
            add(Edge.make_bspline(
                [(612.580430889, 296.21815395), (612.374354345, 296.29679374), (611.970646869, 296.450850434), (611.394079385, 296.713586304), (610.853066711, 296.987016804), (610.357486361, 297.288235735), (609.896382561, 297.599610528), (609.477036946, 297.932256792), (609.09841673, 298.284556341), (608.758710772, 298.653375077), (608.457302107, 299.038989264), (608.199448649, 299.444659231), (607.977533299, 299.866789834), (607.798609588, 300.308107488), (607.65975715, 300.767821241), (607.559616231, 301.244439392), (607.497905054, 301.739995674), (607.491630423, 302.075933546), (607.488445186, 302.246468159)],
                knots=[0, 0, 0, 0, 1.249558333, 2.447906163, 3.58867143, 4.682264114, 5.731748367, 6.739728761, 7.711906036, 8.659384707, 9.578321416, 10.481344598, 11.379544271, 12.277135726, 13.175418307, 14.097160112, 15.034047388, 16, 16, 16, 16], degree=3))
            add(Edge.make_bspline(
                [(607.488445186, 302.246468159), (607.49282555, 302.439538736), (607.501402184, 302.817565692), (607.587451154, 303.36980586), (607.719291893, 303.894921371), (607.910558542, 304.389343064), (608.156192894, 304.852853762), (608.453187669, 305.288766511), (608.804241719, 305.697593471), (609.213503754, 306.066686531), (609.657214714, 306.407618241), (610.14376173, 306.697651931), (610.658716537, 306.950861947), (611.210636666, 307.148827868), (611.791820619, 307.313252612), (612.408080529, 307.421140415), (613.056315391, 307.490701612), (613.499160755, 307.498567824), (613.725661373, 307.502591129)],
                knots=[0, 0, 0, 0, 1.01033566, 1.978209831, 2.919499157, 3.840961976, 4.746855014, 5.660740114, 6.597989116, 7.56120833, 8.541877795, 9.523498025, 10.522416858, 11.542172371, 12.589598349, 13.681636521, 14.814234488, 16, 16, 16, 16], degree=3))
            add(Edge.make_bspline(
                [(613.725661373, 307.502591129), (613.968269855, 307.498219033), (614.438190994, 307.489750488), (615.120391152, 307.426787419), (615.755073228, 307.319142339), (616.345153155, 307.171557286), (616.887304575, 306.977590666), (617.384933999, 306.742393454), (617.834452216, 306.46201507), (618.236961315, 306.139451502), (618.593086714, 305.773322851), (618.897467704, 305.361641069), (619.158701245, 304.909408454), (619.366684143, 304.412232174), (619.529870326, 303.873247147), (619.649133834, 303.29158184), (619.720420497, 302.667301443), (619.72779778, 302.236712324), (619.731593227, 302.015183827)],
                knots=[0, 0, 0, 0, 1.248314423, 2.417925914, 3.521398822, 4.558068205, 5.543720209, 6.479599284, 7.385061127, 8.263440163, 9.127722873, 10.00561236, 10.891325273, 11.808802823, 12.772251995, 13.784947978, 14.860405143, 16, 16, 16, 16], degree=3))
        make_face()
    # profile 8 of 9: a face of its own
    with BuildSketch(Plane.XY):
        Polygon((633.989153194, 307.263846012), (633.989153194, 305.115139958), (628.020525264, 305.115139958), (628.020525264, 300.340237614), (633.034172725, 300.340237614), (633.034172725, 298.191531559), (628.020525264, 298.191531559), (628.020525264, 291.984158512), (634.944133663, 291.984158512), (634.944133663, 289.835452458), (622.290642452, 289.835452458), (622.290642452, 307.263846012), align=None)
    # profile 9 of 9: a face of its own
    with BuildSketch(Plane.XY):
        with BuildLine():
            Line((636.376604366, 289.835452458), (636.376604366, 307.263846012))
            Line((636.376604366, 307.263846012), (643.990335369, 307.263846012))
            add(Edge.make_bspline(
                [(643.990335369, 307.263846012), (644.237946498, 307.261150834), (644.721600887, 307.25588639), (645.426490561, 307.189203683), (646.094808274, 307.090496236), (646.724915796, 306.949857504), (647.317873659, 306.767252686), (647.871119087, 306.542146), (648.390701058, 306.282329135), (648.864494846, 305.976472528), (649.295093616, 305.642889252), (649.669668547, 305.279483604), (649.990389523, 304.894749072), (650.250664962, 304.483256345), (650.454275633, 304.048690948), (650.59581384, 303.587791605), (650.684089268, 303.104102537), (650.695510601, 302.772834174), (650.701311397, 302.604585835)],
                knots=[0, 0, 0, 0, 1.303269877, 2.545653735, 3.724355284, 4.8584284, 5.941462088, 6.987020715, 8.000098032, 8.995332524, 9.951400474, 10.863507538, 11.737823931, 12.582415999, 13.420128714, 14.25671499, 15.114600608, 16, 16, 16, 16], degree=3))
            add(Edge.make_bspline(
                [(650.701311397, 302.604585835), (650.698282873, 302.472674957), (650.692382063, 302.215658276), (650.651041486, 301.838684287), (650.580643818, 301.480313933), (650.481036683, 301.139915259), (650.347814833, 300.820175594), (650.191279492, 300.517863507), (650.009772227, 300.230553342), (649.788675198, 299.970497982), (649.548268341, 299.722842359), (649.274558803, 299.497116911), (648.974487035, 299.288655528), (648.642526299, 299.104010513), (648.287619671, 298.928055749), (647.899038177, 298.784921972), (647.486819978, 298.644749395), (647.19793098, 298.577036306), (647.049257183, 298.54218845)],
                knots=[0, 0, 0, 0, 1.057156483, 2.059775939, 3.035078039, 3.981068617, 4.897189472, 5.80650904, 6.70770952, 7.613691521, 8.536886357, 9.470937334, 10.45233069, 11.461024139, 12.51295332, 13.623444893, 14.776929983, 16, 16, 16, 16], degree=3))
            add(Edge.make_bspline(
                [(647.049257183, 298.54218845), (647.19164695, 298.499279419), (647.467865022, 298.416041346), (647.856360945, 298.265600017), (648.211652989, 298.111536308), (648.524185739, 297.936781388), (648.807636894, 297.762122504), (649.047122259, 297.564301324), (649.255235567, 297.361673563), (649.425188343, 297.135464734), (649.570253643, 296.882344437), (649.694827156, 296.586596707), (649.815179167, 296.247423665), (649.917667348, 295.859098311), (650.004750555, 295.423699276), (650.088222437, 294.944027189), (650.153853601, 294.416024546), (650.187587341, 294.048412906), (650.2051692, 293.856815525)],
                knots=[0, 0, 0, 0, 1.149282524, 2.229462177, 3.219229774, 4.139917433, 4.995948464, 5.788695735, 6.536448429, 7.236319808, 7.968460079, 8.78645307, 9.713791991, 10.749194692, 11.887975363, 13.146018663, 14.512518948, 16, 16, 16, 16], degree=3))
            add(Edge.make_bspline(
                [(650.2051692, 293.856815525), (650.225980287, 293.627849833), (650.265975604, 293.187817268), (650.348933081, 292.554613589), (650.44386163, 291.974357025), (650.555874504, 291.44528724), (650.681301216, 290.967898855), (650.821280597, 290.540469593), (650.979920039, 290.165788217), (651.10484481, 289.941461656), (651.163880062, 289.835452458)],
                knots=[0, 0, 0, 0, 1.324580516, 2.545615266, 3.678710841, 4.711533017, 5.660403917, 6.521349952, 7.301239649, 8, 8, 8, 8], degree=3))
            Line((651.163880062, 289.835452458), (645.213904094, 289.835452458))
            add(Edge.make_bspline(
                [(645.213904094, 289.835452458), (645.12229736, 290.069847279), (644.935171241, 290.548648246), (644.7595281, 291.319414791), (644.64846922, 292.142514735), (644.635117598, 292.70994511), (644.628232479, 293.002555653)],
                knots=[0, 0, 0, 0, 0.930410518, 1.900560147, 2.917368081, 4, 4, 4, 4], degree=3))
            Line((644.628232479, 293.002555653), (644.605850124, 294.002300831))
            Line((644.605850124, 294.002300831), (644.579737377, 295.266903874))
            add(Edge.make_bspline(
                [(644.579737377, 295.266903874), (644.573694669, 295.477395004), (644.562357007, 295.872330118), (644.469348432, 296.426164013), (644.30178735, 296.894645884), (644.073222546, 297.287223005), (643.766741442, 297.590613479), (643.39104803, 297.804152917), (642.950456912, 297.93396284), (642.634664848, 297.946292392), (642.468335247, 297.952786442)],
                knots=[0, 0, 0, 0, 1.295300309, 2.430314163, 3.439929415, 4.342995669, 5.203512789, 6.060756153, 6.978588463, 8, 8, 8, 8], degree=3))
            Line((642.468335247, 297.952786442), (642.106487178, 297.952786442))
            Line((642.106487178, 297.952786442), (642.106487178, 289.835452458))
            Line((642.106487178, 289.835452458), (636.376604366, 289.835452458))
        make_face()
        with BuildLine():
            Line((642.106487178, 299.862747379), (642.617550945, 299.862747379))
            add(Edge.make_bspline(
                [(642.617550945, 299.862747379), (642.722054451, 299.865172716), (642.925280724, 299.869889229), (643.220054897, 299.898289891), (643.494111408, 299.951809873), (643.749840966, 300.021017819), (643.984372137, 300.114851792), (644.200147241, 300.225818296), (644.391160406, 300.362685327), (644.565327067, 300.516342321), (644.718148635, 300.691986294), (644.850351299, 300.889034217), (644.961199162, 301.106225057), (645.056078491, 301.342818683), (645.125883912, 301.600830857), (645.173262731, 301.879472914), (645.203404658, 302.177423605), (645.207875435, 302.383174491), (645.210173702, 302.488943669)],
                knots=[0, 0, 0, 0, 1.184986479, 2.304423995, 3.352332712, 4.347714965, 5.303263624, 6.211353909, 7.091434645, 7.960150225, 8.839440182, 9.723126897, 10.64371617, 11.599264829, 12.608232147, 13.667459739, 14.800924404, 16, 16, 16, 16], degree=3))
            add(Edge.make_bspline(
                [(645.210173702, 302.488943669), (645.207875435, 302.594712847), (645.203404658, 302.800463732), (645.173262731, 303.098414423), (645.125883912, 303.37705648), (645.056078491, 303.635068654), (644.961199162, 303.87166228), (644.850351299, 304.08885312), (644.718148635, 304.285901043), (644.565327067, 304.461545017), (644.391160406, 304.61520201), (644.200147241, 304.752069041), (643.984372137, 304.863035546), (643.749840966, 304.956869518), (643.494111408, 305.026077464), (643.220054897, 305.079597446), (642.925280724, 305.107998108), (642.722054451, 305.112714621), (642.617550945, 305.115139958)],
                knots=[0, 0, 0, 0, 1.199075596, 2.332540261, 3.391767853, 4.400735171, 5.35628383, 6.276873103, 7.160559818, 8.039849775, 8.908565355, 9.788646091, 10.696736376, 11.652285035, 12.647667288, 13.695576005, 14.815013521, 16, 16, 16, 16], degree=3))
            Line((642.617550945, 305.115139958), (642.106487178, 305.115139958))
            Line((642.106487178, 305.115139958), (642.106487178, 299.862747379))
        make_face(mode=Mode.SUBTRACT)
    extrude(amount=BOSS_EXTRUDE4_DEPTH)

    # Sketch18 → Cut-Extrude10 (cut, two sides: drawn at the far end of the back side and taken through both)
    with BuildSketch(Plane.XY.offset(-CUT_EXTRUDE10_DEPTH_BACK)):
        with Locations((335, 405)):
            Rectangle(SKETCH18_W, SKETCH18_H)
    extrude(amount=CUT_EXTRUDE10_DEPTH + CUT_EXTRUDE10_DEPTH_BACK, mode=Mode.SUBTRACT)

    # Sketch19 → Cut-Extrude13 (cut, two sides: drawn at the far end of the back side and taken through both)
    with BuildSketch(Plane(origin=(0, 0, -120), x_dir=(-1, 0, 0), z_dir=(0, 0, -1)).offset(-CUT_EXTRUDE13_DEPTH_BACK)):
        with Locations((-114, 140)):
            Rectangle(SKETCH19_W, SKETCH19_H)
        with Locations((-504, 140)):
            Rectangle(SKETCH19_W_2, SKETCH19_H)
    extrude(amount=CUT_EXTRUDE13_DEPTH + CUT_EXTRUDE13_DEPTH_BACK, mode=Mode.SUBTRACT)

    # Sketch20 → Cut-Extrude14 (cut, two sides: drawn at the far end of the back side and taken through both)
    with BuildSketch(Plane.XY.offset(-100).offset(-CUT_EXTRUDE14_DEPTH_BACK)):
        with Locations((283, 70)):
            Rectangle(SKETCH20_W, SKETCH20_H)
    extrude(amount=CUT_EXTRUDE14_DEPTH + CUT_EXTRUDE14_DEPTH_BACK, mode=Mode.SUBTRACT)


with BuildPart() as body_2:
    # Sketch11 → Boss-Extrude3 (new body)
    with BuildSketch(Plane.XY.offset(-100)):
        with Locations((255, 60)):
            Rectangle(SKETCH11_W, SKETCH11_H)
    extrude(amount=BOSS_EXTRUDE3_DEPTH)


with BuildPart() as body_3:
    # Sketch11 → Boss-Extrude3 2 (new body)
    with BuildSketch(Plane.XY.offset(-100)):
        with Locations((415, 60)):
            Rectangle(SKETCH11_W, SKETCH11_H)
    extrude(amount=BOSS_EXTRUDE3_2_DEPTH)


with BuildPart() as body_4:
    # Sketch11 → Boss-Extrude3 3 (new body)
    with BuildSketch(Plane.XY.offset(-100)):
        Polygon((25, 198.45686471), (325, 145.558770497), (325, 122.01775856), (345, 122.01775856), (345, 145.558770497), (645, 198.45686471), align=None)
    extrude(amount=BOSS_EXTRUDE3_3_DEPTH)

    # Sketch15 → Cut-Extrude7 (cut)
    with BuildSketch(Plane(origin=(345, 0, 0), x_dir=(0, 0, -1), z_dir=(1, 0, 0))):
        with Locations((35, 133.231921672)):
            Rectangle(SKETCH15_W, SKETCH15_H)
        with Locations((85, 130.506698154)):
            Rectangle(SKETCH15_W, SKETCH15_H_2)
    extrude(amount=-CUT_EXTRUDE7_DEPTH, mode=Mode.SUBTRACT)

    # Shell1
    shell1_openings = [body_4.faces().sort_by_distance(p)[0] for p in [
        (335, 198.45686471, -61),
    ]]
    offset(amount=SHELL1_T, openings=shell1_openings, kind=Kind.INTERSECTION)

    # Sketch16 → Cut-Extrude8 (cut)
    with BuildSketch(Plane.XZ.offset(-122.01775856)):
        with Locations((335, -60)):
            Rectangle(SKETCH16_W, SKETCH16_H)
    extrude(amount=-CUT_EXTRUDE8_DEPTH, mode=Mode.SUBTRACT)


solid = part.part
